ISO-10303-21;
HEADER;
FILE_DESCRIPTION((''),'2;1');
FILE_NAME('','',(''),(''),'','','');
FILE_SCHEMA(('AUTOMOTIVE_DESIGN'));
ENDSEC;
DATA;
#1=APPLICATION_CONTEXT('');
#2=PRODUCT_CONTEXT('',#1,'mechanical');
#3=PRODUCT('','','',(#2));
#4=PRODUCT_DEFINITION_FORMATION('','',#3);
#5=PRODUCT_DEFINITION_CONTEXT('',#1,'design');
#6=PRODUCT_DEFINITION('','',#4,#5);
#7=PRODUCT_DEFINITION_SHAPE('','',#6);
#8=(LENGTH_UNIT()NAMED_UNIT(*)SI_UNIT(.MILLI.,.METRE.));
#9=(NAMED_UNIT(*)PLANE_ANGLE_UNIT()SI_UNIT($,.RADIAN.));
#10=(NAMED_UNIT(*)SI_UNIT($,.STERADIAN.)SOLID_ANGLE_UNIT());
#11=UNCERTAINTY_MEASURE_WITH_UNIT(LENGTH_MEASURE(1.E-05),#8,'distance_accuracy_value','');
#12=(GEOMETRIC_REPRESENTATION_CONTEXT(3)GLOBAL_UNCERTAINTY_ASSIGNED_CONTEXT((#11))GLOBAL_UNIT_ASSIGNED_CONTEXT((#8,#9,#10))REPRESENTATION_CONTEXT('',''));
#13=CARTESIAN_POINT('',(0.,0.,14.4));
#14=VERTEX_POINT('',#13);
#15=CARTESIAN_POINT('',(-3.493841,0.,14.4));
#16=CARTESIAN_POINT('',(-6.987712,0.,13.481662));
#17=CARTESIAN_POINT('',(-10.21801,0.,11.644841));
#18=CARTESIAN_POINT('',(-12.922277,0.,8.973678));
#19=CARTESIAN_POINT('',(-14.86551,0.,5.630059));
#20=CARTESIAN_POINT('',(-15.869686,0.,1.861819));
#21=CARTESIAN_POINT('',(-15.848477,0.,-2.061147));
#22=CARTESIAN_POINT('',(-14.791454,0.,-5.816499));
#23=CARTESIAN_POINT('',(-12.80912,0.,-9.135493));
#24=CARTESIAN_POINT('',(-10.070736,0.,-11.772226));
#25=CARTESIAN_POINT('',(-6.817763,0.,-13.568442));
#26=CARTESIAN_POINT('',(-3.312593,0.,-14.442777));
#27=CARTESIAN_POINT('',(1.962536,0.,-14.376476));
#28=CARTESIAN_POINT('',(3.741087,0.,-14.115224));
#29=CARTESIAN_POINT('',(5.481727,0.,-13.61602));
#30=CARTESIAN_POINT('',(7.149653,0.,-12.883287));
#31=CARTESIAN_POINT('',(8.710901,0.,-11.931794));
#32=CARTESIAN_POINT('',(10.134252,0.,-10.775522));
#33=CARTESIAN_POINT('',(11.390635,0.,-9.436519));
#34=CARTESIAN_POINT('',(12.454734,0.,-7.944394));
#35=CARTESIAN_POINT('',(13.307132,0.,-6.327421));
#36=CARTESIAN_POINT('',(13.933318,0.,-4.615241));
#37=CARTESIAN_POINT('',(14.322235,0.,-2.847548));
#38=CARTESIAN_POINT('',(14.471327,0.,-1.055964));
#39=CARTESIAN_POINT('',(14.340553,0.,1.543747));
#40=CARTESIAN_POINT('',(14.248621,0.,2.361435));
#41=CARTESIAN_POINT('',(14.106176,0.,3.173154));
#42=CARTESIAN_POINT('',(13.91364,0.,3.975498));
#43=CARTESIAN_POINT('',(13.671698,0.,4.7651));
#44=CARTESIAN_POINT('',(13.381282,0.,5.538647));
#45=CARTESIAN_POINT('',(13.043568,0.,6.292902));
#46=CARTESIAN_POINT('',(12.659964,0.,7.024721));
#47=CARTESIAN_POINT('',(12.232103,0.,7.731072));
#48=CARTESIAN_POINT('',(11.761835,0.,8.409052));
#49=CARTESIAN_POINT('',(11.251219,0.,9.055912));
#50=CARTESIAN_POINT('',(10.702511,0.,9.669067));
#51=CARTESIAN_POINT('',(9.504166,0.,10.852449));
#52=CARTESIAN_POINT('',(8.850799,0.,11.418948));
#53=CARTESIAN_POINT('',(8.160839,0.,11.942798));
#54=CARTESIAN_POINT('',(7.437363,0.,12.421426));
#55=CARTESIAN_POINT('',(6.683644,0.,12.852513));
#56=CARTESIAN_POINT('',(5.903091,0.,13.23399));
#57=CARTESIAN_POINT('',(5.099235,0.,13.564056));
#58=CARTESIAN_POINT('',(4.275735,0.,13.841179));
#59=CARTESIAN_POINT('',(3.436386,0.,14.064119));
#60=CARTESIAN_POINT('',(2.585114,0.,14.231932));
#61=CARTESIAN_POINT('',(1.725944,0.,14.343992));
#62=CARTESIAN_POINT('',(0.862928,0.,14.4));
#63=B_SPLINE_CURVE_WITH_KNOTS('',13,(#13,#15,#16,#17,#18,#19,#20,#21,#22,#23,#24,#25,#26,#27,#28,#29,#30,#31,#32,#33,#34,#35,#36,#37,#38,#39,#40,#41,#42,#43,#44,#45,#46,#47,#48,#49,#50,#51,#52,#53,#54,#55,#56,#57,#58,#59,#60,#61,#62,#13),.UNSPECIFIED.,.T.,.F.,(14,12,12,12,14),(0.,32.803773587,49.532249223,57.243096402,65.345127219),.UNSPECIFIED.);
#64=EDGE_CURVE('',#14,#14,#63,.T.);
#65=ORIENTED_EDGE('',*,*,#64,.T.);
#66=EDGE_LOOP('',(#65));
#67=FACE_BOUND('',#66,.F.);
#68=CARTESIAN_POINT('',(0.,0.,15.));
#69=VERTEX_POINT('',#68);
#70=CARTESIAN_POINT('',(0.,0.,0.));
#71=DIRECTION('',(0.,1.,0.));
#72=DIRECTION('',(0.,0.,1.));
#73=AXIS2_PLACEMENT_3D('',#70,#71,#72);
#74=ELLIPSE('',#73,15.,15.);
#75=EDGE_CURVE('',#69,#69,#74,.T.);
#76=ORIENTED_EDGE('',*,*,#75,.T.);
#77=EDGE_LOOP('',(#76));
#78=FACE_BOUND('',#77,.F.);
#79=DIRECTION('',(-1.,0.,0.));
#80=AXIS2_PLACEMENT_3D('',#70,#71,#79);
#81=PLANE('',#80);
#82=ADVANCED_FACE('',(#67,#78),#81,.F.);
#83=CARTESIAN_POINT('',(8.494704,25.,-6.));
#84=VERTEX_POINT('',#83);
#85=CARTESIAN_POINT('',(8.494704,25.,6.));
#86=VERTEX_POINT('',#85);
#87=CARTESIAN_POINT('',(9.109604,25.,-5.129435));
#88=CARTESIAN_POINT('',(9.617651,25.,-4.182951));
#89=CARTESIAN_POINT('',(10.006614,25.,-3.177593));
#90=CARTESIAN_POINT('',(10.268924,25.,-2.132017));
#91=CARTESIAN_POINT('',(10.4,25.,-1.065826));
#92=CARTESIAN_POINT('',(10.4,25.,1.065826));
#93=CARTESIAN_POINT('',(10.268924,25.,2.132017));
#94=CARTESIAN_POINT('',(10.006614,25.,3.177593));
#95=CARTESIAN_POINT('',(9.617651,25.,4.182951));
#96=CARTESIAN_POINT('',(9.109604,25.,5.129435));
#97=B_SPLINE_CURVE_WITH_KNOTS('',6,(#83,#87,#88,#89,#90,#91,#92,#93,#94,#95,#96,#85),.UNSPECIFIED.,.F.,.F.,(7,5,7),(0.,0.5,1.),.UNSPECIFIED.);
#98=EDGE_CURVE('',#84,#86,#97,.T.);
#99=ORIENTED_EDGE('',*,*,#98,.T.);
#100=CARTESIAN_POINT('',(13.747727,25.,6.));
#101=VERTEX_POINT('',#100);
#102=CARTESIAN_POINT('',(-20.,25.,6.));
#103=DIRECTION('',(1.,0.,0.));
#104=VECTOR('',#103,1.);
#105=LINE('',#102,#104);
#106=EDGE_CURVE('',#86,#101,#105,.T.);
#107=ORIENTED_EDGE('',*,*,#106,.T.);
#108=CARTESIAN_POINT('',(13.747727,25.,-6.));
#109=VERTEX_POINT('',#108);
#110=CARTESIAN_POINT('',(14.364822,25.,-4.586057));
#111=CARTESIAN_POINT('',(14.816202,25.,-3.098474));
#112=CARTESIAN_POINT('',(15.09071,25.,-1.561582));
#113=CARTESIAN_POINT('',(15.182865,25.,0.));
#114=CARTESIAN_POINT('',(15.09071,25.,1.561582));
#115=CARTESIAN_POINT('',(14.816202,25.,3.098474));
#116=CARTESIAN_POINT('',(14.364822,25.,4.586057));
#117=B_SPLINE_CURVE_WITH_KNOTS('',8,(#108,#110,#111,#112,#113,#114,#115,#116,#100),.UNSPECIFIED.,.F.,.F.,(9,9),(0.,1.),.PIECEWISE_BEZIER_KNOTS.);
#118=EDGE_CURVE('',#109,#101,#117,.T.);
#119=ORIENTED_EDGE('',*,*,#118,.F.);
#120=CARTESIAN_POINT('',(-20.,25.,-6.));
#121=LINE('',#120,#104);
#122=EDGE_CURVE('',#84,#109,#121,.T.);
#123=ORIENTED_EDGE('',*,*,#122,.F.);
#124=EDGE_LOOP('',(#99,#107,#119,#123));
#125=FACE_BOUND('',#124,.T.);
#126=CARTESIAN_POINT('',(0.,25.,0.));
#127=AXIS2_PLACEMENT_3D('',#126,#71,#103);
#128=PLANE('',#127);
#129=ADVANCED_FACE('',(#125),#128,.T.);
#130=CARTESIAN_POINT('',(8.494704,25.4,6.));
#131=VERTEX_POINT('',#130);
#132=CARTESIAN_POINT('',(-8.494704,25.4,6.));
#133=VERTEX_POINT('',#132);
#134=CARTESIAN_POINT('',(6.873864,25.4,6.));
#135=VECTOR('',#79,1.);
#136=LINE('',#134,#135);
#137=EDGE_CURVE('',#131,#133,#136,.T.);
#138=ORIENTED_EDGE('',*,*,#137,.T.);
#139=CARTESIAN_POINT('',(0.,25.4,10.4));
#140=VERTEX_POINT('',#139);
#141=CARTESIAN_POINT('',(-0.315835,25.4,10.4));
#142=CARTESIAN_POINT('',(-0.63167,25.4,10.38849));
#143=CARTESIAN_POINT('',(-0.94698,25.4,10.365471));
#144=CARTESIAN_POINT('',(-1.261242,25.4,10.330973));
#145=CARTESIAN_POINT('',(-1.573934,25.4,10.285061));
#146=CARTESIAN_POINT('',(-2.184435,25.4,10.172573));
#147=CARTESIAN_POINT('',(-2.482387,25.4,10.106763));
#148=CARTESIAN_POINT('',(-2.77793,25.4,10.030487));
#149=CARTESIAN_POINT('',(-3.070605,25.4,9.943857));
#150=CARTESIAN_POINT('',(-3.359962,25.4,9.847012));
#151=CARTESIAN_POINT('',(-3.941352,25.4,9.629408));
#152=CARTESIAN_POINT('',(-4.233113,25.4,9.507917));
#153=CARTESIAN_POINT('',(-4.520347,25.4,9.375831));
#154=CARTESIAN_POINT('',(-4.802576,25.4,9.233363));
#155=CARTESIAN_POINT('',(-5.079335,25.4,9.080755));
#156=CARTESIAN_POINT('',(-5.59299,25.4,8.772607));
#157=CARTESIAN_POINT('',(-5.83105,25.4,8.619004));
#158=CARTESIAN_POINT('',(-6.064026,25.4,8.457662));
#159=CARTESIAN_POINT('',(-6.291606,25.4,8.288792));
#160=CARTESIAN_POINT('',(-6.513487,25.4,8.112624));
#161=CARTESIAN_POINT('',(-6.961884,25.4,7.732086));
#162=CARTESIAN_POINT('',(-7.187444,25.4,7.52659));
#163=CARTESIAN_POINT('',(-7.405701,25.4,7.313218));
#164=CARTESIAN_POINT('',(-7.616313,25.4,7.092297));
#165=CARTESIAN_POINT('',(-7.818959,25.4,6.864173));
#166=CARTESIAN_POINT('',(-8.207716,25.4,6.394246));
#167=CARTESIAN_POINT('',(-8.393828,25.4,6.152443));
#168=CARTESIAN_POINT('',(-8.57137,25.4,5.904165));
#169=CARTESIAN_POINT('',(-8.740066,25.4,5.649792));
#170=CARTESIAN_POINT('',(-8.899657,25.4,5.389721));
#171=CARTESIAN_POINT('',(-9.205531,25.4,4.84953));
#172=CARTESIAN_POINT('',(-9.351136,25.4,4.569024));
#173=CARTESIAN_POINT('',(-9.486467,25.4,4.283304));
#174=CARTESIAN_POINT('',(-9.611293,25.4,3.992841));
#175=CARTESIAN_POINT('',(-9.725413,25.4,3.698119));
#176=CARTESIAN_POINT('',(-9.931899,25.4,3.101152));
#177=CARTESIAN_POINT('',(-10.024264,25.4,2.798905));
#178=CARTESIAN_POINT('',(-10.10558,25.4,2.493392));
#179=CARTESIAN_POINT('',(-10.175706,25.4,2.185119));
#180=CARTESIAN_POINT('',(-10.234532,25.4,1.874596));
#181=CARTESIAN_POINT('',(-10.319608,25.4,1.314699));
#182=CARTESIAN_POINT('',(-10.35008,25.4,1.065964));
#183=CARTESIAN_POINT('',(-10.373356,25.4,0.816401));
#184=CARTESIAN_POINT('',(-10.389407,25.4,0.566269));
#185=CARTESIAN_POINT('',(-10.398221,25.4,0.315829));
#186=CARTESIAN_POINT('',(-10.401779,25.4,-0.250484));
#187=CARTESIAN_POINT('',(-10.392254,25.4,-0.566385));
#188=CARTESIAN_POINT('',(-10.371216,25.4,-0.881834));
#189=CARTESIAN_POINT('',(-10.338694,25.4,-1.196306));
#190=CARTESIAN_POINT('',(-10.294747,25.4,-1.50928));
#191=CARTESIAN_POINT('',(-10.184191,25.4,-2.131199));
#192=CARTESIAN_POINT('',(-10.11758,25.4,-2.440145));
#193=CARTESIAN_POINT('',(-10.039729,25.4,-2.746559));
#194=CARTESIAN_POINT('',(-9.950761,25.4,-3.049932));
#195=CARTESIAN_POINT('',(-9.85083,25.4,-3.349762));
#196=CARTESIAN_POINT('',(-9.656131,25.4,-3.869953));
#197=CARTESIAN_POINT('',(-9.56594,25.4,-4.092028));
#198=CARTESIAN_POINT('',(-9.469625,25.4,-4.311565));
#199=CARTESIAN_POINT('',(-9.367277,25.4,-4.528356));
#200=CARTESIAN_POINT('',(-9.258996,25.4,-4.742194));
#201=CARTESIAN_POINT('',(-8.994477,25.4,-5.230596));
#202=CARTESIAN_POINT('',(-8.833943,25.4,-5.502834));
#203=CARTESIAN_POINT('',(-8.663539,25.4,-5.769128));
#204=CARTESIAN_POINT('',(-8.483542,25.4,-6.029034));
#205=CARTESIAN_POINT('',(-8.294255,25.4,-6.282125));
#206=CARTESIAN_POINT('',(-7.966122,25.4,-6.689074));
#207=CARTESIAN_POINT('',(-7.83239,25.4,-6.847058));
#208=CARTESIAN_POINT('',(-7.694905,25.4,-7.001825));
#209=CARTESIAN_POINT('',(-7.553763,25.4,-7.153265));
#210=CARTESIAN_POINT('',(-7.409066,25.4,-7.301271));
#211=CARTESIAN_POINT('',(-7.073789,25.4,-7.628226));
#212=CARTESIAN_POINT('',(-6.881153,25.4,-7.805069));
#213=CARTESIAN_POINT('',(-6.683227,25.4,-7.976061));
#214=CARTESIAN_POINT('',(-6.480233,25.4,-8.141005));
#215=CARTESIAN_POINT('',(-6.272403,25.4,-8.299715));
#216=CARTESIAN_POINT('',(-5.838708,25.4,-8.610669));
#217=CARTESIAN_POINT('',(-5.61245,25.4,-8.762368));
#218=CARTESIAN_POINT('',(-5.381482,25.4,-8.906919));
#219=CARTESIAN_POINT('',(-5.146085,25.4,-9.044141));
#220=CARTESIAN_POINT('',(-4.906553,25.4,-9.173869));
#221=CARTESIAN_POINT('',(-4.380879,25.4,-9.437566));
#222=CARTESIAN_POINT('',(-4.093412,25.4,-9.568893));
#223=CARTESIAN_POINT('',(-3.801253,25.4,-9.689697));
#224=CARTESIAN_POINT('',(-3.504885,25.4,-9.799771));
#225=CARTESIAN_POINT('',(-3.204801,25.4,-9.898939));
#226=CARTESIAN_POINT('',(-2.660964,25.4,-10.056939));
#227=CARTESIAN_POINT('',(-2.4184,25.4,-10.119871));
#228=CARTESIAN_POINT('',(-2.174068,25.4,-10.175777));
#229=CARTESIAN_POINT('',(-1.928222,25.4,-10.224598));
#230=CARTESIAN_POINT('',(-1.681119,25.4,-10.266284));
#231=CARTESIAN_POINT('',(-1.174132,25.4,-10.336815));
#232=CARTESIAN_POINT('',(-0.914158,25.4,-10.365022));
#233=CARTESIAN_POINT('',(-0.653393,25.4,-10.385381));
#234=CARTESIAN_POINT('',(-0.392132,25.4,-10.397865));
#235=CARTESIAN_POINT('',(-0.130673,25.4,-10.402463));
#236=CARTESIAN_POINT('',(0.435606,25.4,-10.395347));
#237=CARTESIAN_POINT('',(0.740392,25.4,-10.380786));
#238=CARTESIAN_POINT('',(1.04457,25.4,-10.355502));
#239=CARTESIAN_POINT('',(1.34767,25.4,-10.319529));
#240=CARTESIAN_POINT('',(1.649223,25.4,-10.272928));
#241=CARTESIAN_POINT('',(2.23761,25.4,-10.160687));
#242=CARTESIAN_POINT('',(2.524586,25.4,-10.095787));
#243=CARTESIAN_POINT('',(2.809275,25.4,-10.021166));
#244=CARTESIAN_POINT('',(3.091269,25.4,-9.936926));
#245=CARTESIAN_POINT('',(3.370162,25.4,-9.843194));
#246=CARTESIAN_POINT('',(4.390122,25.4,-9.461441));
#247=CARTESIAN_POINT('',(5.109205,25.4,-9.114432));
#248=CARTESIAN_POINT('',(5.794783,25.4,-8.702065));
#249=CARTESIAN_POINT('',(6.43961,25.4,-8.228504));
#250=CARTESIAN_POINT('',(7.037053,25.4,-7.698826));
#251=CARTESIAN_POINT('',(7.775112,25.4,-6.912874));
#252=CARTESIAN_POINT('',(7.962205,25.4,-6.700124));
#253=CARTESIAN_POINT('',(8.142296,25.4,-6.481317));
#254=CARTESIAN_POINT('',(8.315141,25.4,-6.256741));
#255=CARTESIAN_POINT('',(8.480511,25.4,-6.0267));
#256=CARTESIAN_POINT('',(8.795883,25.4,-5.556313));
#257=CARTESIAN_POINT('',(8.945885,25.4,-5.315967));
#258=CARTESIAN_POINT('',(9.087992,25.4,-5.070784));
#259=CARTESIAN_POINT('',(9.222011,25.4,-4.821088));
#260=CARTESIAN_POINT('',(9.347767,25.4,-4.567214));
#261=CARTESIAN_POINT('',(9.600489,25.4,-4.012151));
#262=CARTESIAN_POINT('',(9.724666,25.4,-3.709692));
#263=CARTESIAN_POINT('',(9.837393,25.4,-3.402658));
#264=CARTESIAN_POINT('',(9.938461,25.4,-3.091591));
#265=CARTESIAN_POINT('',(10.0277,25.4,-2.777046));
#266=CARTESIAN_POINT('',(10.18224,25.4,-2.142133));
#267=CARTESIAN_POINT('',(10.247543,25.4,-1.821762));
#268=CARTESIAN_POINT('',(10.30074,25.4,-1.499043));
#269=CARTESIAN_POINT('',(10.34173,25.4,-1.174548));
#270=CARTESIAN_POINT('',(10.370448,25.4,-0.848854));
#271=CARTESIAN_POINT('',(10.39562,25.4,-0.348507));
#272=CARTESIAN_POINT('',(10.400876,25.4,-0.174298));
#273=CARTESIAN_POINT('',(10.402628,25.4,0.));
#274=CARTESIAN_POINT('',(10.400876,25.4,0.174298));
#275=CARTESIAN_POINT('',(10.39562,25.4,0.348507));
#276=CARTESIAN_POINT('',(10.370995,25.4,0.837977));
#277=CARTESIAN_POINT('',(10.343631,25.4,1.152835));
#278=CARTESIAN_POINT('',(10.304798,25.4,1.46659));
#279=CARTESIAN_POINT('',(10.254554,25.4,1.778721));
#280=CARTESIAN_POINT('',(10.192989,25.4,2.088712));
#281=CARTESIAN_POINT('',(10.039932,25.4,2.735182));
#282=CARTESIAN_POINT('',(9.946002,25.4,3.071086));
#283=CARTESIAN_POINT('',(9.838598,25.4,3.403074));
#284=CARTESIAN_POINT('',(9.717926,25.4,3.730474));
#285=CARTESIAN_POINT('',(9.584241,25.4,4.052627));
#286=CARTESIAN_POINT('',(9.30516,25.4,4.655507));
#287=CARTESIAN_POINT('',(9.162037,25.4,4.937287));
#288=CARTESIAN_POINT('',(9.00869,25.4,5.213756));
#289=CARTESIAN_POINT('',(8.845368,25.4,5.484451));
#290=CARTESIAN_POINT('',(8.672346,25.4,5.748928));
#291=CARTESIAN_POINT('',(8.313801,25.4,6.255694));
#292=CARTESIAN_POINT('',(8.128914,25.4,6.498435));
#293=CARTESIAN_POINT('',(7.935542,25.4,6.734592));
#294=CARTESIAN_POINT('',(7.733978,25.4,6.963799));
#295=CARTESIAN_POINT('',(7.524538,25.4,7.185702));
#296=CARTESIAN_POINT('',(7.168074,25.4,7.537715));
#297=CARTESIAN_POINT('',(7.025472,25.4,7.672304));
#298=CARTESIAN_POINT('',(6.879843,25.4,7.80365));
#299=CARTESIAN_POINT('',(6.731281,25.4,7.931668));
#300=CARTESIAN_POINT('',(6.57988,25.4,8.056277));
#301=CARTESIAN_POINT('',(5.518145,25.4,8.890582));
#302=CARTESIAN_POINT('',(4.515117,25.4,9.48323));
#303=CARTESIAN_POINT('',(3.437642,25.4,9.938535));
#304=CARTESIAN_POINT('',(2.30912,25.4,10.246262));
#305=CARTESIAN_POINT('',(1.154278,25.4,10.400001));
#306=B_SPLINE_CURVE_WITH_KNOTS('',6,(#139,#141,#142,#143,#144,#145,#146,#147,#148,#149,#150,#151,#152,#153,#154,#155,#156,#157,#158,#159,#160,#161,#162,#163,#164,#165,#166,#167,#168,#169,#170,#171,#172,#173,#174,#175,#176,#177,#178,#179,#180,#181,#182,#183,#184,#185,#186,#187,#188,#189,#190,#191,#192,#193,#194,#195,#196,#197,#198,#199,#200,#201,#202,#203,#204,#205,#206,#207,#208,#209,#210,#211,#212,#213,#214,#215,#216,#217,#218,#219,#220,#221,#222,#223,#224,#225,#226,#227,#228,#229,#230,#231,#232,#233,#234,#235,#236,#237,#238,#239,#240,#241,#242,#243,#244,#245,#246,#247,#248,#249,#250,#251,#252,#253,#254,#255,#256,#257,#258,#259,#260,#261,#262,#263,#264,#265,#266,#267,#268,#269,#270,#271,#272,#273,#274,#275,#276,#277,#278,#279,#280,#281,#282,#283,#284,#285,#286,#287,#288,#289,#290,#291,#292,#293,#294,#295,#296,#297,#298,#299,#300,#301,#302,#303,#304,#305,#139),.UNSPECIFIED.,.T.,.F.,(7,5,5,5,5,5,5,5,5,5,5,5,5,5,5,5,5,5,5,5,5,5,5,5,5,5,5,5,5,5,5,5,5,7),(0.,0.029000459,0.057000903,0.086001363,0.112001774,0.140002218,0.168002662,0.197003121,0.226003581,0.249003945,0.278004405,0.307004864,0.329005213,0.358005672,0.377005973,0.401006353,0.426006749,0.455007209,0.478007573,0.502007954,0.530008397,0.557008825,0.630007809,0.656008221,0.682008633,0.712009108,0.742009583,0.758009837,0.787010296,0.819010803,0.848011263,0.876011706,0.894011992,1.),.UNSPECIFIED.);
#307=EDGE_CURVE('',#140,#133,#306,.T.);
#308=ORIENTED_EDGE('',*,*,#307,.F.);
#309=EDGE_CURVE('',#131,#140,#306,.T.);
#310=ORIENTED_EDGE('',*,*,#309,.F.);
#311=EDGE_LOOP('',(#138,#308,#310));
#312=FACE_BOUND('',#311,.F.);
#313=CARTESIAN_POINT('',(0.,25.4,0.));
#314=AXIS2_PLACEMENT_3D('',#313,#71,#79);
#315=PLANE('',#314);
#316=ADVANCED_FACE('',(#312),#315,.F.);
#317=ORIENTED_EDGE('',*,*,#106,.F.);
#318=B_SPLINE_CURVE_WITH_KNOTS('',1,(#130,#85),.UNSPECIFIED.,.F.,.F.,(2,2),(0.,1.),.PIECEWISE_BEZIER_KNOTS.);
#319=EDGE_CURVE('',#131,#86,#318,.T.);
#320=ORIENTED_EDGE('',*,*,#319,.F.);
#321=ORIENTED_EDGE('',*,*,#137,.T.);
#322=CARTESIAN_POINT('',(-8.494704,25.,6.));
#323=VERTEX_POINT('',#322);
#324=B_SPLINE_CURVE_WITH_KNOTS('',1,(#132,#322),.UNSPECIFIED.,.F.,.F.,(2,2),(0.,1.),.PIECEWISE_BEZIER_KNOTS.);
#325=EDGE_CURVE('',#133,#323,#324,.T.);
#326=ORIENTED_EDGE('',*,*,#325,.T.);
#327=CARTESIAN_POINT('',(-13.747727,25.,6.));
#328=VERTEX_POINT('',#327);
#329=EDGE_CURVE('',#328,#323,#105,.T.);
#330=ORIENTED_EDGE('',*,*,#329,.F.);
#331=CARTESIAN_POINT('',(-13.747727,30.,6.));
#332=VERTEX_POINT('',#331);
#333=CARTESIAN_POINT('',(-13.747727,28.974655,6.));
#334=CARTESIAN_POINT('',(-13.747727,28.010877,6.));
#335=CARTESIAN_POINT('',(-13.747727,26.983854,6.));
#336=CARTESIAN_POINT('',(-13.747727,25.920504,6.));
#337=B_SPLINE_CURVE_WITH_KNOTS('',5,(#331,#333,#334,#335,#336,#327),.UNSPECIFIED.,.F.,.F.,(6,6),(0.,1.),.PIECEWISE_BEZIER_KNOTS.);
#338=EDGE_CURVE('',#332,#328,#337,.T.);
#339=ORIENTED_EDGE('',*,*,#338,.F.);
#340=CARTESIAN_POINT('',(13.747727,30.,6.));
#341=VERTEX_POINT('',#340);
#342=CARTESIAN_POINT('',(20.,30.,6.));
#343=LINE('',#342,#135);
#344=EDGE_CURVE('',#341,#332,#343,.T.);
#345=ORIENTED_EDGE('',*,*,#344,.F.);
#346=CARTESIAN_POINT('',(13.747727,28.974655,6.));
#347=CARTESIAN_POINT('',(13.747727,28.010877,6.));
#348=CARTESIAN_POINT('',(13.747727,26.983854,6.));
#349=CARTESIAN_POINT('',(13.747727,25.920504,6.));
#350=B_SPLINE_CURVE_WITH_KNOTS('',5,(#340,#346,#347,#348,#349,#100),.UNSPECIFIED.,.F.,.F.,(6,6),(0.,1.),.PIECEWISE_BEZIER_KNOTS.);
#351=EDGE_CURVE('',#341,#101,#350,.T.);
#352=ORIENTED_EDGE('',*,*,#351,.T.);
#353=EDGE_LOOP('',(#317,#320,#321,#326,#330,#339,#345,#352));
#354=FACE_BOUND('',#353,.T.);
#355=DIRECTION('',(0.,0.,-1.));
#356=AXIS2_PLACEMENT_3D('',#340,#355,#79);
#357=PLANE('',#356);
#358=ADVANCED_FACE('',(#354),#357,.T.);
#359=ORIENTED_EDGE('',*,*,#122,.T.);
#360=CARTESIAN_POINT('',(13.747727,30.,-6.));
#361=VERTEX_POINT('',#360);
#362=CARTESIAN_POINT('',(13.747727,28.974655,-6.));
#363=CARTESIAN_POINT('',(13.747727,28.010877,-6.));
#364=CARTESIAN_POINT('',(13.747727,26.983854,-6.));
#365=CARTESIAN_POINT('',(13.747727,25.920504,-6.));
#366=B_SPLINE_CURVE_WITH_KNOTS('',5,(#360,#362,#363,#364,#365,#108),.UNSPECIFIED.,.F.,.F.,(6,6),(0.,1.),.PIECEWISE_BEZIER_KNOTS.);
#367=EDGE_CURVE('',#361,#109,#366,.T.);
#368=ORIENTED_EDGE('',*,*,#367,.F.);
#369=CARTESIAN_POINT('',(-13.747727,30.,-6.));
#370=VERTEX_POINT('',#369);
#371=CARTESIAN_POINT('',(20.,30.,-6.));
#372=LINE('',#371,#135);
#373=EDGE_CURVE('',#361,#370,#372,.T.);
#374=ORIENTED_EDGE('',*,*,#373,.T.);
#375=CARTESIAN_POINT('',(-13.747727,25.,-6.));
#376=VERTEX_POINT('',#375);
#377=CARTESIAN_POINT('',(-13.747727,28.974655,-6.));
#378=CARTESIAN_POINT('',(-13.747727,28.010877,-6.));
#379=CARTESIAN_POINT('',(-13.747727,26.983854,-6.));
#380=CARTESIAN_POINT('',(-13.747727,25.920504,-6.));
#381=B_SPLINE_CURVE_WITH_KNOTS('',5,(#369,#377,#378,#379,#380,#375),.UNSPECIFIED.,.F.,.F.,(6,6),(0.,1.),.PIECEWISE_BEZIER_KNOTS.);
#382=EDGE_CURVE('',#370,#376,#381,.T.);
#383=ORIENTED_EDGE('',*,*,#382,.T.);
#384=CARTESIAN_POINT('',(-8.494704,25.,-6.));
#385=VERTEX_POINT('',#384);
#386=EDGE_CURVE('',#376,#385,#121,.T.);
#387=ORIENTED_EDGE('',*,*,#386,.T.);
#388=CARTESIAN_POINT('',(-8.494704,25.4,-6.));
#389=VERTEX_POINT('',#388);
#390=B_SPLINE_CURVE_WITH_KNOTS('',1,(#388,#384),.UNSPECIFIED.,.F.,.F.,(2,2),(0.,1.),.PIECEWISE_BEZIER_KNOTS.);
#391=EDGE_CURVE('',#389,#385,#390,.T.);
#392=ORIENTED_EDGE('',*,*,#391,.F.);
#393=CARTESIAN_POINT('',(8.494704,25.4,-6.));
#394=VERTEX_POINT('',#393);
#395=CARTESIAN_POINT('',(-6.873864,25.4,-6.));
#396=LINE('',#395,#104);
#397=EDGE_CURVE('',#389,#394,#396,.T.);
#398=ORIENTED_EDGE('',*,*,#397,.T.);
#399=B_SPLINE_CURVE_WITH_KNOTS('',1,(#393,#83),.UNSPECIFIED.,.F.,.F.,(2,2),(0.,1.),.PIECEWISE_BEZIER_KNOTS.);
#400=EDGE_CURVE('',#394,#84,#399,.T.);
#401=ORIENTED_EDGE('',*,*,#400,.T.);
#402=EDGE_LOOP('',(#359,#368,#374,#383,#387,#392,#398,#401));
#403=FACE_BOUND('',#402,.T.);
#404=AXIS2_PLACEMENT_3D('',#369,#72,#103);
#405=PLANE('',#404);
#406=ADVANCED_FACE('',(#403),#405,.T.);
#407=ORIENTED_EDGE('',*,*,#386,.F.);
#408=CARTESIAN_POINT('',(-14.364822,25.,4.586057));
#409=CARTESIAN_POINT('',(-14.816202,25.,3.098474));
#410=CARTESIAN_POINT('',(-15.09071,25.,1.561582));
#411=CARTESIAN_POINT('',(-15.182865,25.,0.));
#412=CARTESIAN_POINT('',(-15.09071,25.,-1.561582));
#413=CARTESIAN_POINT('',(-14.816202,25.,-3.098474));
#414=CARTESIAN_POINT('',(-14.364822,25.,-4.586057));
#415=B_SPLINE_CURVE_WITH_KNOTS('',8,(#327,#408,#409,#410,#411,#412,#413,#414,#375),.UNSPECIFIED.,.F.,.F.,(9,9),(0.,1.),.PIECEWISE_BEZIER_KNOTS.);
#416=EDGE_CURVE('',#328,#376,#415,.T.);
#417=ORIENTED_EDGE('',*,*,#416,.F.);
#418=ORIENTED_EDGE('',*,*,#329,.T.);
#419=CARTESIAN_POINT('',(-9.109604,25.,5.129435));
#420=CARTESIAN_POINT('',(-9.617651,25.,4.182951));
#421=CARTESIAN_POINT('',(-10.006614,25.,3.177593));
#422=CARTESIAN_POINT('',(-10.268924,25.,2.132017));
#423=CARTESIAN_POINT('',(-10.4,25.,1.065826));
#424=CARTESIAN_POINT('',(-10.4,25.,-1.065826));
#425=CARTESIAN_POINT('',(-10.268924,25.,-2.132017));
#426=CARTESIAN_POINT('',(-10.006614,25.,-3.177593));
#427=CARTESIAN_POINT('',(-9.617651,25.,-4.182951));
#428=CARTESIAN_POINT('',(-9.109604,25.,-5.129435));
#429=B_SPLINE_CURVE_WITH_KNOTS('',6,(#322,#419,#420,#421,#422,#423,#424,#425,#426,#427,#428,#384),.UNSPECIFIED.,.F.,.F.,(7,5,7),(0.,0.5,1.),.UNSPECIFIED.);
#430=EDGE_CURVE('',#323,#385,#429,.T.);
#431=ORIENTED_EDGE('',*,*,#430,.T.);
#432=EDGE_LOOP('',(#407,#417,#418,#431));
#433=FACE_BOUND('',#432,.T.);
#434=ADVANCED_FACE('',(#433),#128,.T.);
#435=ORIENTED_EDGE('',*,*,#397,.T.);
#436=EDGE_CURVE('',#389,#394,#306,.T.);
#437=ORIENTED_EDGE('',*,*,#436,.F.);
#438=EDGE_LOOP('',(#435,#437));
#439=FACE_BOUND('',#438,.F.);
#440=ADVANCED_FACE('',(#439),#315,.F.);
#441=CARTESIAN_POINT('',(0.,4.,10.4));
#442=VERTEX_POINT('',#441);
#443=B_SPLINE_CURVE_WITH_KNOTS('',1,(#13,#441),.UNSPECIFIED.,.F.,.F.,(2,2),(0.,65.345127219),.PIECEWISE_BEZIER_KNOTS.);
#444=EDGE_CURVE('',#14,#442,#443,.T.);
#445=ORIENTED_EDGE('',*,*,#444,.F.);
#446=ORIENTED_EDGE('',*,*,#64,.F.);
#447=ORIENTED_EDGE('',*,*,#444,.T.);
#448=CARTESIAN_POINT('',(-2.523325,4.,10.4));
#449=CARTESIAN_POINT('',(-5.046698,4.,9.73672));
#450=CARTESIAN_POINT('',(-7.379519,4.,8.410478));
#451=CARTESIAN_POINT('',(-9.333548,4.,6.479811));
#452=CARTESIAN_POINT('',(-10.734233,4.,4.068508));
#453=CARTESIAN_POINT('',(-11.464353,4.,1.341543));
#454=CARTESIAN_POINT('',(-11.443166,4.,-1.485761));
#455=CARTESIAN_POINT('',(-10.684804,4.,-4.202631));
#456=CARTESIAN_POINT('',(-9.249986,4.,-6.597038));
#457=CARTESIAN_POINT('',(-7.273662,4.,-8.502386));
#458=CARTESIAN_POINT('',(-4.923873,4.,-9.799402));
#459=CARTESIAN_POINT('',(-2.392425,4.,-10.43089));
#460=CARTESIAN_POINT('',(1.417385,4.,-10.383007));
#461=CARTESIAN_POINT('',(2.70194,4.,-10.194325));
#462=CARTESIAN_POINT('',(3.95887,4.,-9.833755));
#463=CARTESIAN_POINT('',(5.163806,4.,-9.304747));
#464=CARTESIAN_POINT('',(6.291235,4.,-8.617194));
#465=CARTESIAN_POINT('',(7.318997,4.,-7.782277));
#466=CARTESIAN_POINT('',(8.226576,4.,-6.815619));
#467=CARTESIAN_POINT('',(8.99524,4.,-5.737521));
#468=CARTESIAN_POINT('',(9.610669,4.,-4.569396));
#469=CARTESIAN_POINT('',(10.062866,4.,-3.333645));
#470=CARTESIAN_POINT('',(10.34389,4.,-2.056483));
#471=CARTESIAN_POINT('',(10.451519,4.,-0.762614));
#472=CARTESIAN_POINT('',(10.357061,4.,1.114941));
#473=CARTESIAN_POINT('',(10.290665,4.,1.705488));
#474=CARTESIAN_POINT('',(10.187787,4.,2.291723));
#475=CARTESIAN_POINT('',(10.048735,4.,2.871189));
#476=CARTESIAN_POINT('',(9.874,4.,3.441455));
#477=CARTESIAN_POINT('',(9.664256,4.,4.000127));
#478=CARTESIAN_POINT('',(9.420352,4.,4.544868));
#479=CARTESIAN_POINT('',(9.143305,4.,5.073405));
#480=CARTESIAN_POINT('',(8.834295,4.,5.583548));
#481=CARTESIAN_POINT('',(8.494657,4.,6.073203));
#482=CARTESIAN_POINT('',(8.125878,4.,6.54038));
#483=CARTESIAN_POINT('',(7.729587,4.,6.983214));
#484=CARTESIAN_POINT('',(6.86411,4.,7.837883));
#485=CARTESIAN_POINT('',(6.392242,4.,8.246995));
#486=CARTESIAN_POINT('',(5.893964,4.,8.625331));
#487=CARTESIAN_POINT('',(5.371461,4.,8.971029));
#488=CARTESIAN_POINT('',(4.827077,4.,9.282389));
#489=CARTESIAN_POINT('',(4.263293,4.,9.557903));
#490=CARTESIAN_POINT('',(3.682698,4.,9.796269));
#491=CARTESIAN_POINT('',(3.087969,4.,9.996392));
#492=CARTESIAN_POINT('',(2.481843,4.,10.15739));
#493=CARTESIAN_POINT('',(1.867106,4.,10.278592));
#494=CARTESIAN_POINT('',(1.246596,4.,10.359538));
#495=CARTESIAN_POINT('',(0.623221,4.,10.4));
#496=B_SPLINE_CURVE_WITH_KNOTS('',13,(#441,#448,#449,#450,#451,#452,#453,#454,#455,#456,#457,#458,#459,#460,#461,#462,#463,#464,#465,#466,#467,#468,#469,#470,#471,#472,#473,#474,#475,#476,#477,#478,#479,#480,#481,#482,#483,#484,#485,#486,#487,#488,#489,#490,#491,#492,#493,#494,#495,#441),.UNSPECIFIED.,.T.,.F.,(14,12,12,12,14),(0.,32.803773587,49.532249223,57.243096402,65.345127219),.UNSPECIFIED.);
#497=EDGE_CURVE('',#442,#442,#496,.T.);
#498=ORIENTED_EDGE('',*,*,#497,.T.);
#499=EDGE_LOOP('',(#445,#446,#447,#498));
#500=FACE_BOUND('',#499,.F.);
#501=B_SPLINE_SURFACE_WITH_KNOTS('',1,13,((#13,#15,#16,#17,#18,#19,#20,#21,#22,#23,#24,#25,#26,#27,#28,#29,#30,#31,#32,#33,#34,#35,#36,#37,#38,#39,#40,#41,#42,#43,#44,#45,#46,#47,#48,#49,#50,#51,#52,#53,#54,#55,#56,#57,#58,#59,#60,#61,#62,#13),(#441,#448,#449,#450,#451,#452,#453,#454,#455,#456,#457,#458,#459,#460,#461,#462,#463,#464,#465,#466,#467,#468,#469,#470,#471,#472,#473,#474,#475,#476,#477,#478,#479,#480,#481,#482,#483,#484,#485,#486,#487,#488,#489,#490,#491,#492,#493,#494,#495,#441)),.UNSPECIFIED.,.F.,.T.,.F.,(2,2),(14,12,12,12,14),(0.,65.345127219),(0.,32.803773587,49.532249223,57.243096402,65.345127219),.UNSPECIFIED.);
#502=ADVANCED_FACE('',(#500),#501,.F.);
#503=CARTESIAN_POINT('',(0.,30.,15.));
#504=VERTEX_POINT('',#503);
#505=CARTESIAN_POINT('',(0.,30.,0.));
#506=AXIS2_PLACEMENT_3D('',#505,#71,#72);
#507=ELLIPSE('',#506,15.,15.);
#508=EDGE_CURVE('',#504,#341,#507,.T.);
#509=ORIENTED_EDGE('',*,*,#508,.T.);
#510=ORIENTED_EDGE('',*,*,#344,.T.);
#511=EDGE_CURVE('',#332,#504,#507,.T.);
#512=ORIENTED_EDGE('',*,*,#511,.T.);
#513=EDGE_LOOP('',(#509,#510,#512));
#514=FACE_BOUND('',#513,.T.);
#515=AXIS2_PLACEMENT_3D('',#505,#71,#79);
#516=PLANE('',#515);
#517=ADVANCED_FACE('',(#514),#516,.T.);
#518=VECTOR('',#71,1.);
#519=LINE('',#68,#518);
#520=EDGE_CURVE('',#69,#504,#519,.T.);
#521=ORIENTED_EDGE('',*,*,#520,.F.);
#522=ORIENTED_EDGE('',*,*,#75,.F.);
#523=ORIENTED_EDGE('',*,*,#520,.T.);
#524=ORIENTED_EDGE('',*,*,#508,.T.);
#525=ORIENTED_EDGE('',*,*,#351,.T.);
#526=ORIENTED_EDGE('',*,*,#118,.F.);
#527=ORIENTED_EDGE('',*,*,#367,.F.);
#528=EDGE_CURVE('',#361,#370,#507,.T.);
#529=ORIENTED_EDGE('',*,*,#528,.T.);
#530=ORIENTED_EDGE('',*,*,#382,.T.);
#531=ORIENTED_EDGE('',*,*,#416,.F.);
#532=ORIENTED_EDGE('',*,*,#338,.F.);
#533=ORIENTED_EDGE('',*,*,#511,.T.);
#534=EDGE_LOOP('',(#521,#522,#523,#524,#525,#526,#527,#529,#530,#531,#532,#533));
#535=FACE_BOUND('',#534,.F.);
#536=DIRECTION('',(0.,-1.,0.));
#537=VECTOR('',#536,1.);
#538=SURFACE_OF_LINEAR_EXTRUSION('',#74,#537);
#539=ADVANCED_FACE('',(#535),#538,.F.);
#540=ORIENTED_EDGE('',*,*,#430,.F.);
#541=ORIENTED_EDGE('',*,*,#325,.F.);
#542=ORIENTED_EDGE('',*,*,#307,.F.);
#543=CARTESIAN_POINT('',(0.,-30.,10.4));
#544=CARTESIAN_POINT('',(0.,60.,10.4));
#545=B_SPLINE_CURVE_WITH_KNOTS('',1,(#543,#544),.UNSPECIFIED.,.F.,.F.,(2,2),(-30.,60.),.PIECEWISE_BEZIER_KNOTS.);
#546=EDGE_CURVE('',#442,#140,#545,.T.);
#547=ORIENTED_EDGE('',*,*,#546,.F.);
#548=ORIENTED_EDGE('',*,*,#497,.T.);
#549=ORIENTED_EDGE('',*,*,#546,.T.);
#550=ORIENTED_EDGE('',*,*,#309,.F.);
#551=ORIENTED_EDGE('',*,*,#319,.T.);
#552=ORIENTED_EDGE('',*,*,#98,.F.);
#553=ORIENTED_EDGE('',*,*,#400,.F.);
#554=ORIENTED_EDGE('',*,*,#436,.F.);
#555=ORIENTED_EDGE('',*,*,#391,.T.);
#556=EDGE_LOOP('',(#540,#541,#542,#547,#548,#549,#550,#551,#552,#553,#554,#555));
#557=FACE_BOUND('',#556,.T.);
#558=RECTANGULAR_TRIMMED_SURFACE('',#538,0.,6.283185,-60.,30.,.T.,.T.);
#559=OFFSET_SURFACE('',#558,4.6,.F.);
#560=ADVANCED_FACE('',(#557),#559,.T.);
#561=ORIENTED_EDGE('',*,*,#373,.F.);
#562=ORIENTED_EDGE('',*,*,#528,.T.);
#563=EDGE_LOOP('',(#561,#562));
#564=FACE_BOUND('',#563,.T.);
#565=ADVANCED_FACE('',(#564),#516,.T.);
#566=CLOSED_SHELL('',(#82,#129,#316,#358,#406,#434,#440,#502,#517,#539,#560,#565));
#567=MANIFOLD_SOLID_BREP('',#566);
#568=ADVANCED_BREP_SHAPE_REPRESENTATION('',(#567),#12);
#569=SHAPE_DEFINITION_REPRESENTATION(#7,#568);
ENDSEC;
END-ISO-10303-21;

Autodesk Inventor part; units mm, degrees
ref_plane "YZ Plane" through (0, 0, 0) normal (1, 0, 0) x (0, 1, 0)
ref_plane "XZ Plane" through (0, 0, 0) normal (0, 1, 0) x (-1, 0, 0)
ref_plane "XY Plane" through (0, 0, 0) normal (0, 0, 1) x (1, 0, 0)
sketch "Esquisse1" plane through (0, 0, 0) normal (0, 1, 0) x (-1, 0, 0)
  ellipse E0 centre (0, 0) end of major axis (0, 15) minor radius 15
  dimension "d0" = 15
  dimension "d1" = 15
extrude "Extrusion1" add sketch "Esquisse1" along normal blind 30
shell "Coque1" thickness 4.6 removed faces 1 at (0.1197, 0, 4.0636)
chamfer "Chanfrein1" distance 4 angle 45 1 edges at (-0.0005, 0, -10.4)
sketch "Esquisse3" plane through (0, 30, 0) normal (0, 1, 0) x (1, 0, 0)
  circle A0 centre (0, 0) radius 15 projected
  line L0 (-20, 6) -> (20, 6)
  line L1 (20, 6) -> (20, -6)
  line L2 (20, -6) -> (-20, -6)
  line L3 (-20, -6) -> (-20, 6)
  dimension "d14" = 12
  dimension "d15" = 6
  dimension "d16" = 40
  dimension "d17" = 20
extrude "Extrusion3" cut sketch "Esquisse3" against normal blind 5 contours A0 L2 L0 | A0 L0 L1 L2 | A0 L2 L3 L0
equation "\"d15\" = 0.5 * d14"
equation "\"d17\" = 0.5 * d16"
properties part number "Cylindre"
